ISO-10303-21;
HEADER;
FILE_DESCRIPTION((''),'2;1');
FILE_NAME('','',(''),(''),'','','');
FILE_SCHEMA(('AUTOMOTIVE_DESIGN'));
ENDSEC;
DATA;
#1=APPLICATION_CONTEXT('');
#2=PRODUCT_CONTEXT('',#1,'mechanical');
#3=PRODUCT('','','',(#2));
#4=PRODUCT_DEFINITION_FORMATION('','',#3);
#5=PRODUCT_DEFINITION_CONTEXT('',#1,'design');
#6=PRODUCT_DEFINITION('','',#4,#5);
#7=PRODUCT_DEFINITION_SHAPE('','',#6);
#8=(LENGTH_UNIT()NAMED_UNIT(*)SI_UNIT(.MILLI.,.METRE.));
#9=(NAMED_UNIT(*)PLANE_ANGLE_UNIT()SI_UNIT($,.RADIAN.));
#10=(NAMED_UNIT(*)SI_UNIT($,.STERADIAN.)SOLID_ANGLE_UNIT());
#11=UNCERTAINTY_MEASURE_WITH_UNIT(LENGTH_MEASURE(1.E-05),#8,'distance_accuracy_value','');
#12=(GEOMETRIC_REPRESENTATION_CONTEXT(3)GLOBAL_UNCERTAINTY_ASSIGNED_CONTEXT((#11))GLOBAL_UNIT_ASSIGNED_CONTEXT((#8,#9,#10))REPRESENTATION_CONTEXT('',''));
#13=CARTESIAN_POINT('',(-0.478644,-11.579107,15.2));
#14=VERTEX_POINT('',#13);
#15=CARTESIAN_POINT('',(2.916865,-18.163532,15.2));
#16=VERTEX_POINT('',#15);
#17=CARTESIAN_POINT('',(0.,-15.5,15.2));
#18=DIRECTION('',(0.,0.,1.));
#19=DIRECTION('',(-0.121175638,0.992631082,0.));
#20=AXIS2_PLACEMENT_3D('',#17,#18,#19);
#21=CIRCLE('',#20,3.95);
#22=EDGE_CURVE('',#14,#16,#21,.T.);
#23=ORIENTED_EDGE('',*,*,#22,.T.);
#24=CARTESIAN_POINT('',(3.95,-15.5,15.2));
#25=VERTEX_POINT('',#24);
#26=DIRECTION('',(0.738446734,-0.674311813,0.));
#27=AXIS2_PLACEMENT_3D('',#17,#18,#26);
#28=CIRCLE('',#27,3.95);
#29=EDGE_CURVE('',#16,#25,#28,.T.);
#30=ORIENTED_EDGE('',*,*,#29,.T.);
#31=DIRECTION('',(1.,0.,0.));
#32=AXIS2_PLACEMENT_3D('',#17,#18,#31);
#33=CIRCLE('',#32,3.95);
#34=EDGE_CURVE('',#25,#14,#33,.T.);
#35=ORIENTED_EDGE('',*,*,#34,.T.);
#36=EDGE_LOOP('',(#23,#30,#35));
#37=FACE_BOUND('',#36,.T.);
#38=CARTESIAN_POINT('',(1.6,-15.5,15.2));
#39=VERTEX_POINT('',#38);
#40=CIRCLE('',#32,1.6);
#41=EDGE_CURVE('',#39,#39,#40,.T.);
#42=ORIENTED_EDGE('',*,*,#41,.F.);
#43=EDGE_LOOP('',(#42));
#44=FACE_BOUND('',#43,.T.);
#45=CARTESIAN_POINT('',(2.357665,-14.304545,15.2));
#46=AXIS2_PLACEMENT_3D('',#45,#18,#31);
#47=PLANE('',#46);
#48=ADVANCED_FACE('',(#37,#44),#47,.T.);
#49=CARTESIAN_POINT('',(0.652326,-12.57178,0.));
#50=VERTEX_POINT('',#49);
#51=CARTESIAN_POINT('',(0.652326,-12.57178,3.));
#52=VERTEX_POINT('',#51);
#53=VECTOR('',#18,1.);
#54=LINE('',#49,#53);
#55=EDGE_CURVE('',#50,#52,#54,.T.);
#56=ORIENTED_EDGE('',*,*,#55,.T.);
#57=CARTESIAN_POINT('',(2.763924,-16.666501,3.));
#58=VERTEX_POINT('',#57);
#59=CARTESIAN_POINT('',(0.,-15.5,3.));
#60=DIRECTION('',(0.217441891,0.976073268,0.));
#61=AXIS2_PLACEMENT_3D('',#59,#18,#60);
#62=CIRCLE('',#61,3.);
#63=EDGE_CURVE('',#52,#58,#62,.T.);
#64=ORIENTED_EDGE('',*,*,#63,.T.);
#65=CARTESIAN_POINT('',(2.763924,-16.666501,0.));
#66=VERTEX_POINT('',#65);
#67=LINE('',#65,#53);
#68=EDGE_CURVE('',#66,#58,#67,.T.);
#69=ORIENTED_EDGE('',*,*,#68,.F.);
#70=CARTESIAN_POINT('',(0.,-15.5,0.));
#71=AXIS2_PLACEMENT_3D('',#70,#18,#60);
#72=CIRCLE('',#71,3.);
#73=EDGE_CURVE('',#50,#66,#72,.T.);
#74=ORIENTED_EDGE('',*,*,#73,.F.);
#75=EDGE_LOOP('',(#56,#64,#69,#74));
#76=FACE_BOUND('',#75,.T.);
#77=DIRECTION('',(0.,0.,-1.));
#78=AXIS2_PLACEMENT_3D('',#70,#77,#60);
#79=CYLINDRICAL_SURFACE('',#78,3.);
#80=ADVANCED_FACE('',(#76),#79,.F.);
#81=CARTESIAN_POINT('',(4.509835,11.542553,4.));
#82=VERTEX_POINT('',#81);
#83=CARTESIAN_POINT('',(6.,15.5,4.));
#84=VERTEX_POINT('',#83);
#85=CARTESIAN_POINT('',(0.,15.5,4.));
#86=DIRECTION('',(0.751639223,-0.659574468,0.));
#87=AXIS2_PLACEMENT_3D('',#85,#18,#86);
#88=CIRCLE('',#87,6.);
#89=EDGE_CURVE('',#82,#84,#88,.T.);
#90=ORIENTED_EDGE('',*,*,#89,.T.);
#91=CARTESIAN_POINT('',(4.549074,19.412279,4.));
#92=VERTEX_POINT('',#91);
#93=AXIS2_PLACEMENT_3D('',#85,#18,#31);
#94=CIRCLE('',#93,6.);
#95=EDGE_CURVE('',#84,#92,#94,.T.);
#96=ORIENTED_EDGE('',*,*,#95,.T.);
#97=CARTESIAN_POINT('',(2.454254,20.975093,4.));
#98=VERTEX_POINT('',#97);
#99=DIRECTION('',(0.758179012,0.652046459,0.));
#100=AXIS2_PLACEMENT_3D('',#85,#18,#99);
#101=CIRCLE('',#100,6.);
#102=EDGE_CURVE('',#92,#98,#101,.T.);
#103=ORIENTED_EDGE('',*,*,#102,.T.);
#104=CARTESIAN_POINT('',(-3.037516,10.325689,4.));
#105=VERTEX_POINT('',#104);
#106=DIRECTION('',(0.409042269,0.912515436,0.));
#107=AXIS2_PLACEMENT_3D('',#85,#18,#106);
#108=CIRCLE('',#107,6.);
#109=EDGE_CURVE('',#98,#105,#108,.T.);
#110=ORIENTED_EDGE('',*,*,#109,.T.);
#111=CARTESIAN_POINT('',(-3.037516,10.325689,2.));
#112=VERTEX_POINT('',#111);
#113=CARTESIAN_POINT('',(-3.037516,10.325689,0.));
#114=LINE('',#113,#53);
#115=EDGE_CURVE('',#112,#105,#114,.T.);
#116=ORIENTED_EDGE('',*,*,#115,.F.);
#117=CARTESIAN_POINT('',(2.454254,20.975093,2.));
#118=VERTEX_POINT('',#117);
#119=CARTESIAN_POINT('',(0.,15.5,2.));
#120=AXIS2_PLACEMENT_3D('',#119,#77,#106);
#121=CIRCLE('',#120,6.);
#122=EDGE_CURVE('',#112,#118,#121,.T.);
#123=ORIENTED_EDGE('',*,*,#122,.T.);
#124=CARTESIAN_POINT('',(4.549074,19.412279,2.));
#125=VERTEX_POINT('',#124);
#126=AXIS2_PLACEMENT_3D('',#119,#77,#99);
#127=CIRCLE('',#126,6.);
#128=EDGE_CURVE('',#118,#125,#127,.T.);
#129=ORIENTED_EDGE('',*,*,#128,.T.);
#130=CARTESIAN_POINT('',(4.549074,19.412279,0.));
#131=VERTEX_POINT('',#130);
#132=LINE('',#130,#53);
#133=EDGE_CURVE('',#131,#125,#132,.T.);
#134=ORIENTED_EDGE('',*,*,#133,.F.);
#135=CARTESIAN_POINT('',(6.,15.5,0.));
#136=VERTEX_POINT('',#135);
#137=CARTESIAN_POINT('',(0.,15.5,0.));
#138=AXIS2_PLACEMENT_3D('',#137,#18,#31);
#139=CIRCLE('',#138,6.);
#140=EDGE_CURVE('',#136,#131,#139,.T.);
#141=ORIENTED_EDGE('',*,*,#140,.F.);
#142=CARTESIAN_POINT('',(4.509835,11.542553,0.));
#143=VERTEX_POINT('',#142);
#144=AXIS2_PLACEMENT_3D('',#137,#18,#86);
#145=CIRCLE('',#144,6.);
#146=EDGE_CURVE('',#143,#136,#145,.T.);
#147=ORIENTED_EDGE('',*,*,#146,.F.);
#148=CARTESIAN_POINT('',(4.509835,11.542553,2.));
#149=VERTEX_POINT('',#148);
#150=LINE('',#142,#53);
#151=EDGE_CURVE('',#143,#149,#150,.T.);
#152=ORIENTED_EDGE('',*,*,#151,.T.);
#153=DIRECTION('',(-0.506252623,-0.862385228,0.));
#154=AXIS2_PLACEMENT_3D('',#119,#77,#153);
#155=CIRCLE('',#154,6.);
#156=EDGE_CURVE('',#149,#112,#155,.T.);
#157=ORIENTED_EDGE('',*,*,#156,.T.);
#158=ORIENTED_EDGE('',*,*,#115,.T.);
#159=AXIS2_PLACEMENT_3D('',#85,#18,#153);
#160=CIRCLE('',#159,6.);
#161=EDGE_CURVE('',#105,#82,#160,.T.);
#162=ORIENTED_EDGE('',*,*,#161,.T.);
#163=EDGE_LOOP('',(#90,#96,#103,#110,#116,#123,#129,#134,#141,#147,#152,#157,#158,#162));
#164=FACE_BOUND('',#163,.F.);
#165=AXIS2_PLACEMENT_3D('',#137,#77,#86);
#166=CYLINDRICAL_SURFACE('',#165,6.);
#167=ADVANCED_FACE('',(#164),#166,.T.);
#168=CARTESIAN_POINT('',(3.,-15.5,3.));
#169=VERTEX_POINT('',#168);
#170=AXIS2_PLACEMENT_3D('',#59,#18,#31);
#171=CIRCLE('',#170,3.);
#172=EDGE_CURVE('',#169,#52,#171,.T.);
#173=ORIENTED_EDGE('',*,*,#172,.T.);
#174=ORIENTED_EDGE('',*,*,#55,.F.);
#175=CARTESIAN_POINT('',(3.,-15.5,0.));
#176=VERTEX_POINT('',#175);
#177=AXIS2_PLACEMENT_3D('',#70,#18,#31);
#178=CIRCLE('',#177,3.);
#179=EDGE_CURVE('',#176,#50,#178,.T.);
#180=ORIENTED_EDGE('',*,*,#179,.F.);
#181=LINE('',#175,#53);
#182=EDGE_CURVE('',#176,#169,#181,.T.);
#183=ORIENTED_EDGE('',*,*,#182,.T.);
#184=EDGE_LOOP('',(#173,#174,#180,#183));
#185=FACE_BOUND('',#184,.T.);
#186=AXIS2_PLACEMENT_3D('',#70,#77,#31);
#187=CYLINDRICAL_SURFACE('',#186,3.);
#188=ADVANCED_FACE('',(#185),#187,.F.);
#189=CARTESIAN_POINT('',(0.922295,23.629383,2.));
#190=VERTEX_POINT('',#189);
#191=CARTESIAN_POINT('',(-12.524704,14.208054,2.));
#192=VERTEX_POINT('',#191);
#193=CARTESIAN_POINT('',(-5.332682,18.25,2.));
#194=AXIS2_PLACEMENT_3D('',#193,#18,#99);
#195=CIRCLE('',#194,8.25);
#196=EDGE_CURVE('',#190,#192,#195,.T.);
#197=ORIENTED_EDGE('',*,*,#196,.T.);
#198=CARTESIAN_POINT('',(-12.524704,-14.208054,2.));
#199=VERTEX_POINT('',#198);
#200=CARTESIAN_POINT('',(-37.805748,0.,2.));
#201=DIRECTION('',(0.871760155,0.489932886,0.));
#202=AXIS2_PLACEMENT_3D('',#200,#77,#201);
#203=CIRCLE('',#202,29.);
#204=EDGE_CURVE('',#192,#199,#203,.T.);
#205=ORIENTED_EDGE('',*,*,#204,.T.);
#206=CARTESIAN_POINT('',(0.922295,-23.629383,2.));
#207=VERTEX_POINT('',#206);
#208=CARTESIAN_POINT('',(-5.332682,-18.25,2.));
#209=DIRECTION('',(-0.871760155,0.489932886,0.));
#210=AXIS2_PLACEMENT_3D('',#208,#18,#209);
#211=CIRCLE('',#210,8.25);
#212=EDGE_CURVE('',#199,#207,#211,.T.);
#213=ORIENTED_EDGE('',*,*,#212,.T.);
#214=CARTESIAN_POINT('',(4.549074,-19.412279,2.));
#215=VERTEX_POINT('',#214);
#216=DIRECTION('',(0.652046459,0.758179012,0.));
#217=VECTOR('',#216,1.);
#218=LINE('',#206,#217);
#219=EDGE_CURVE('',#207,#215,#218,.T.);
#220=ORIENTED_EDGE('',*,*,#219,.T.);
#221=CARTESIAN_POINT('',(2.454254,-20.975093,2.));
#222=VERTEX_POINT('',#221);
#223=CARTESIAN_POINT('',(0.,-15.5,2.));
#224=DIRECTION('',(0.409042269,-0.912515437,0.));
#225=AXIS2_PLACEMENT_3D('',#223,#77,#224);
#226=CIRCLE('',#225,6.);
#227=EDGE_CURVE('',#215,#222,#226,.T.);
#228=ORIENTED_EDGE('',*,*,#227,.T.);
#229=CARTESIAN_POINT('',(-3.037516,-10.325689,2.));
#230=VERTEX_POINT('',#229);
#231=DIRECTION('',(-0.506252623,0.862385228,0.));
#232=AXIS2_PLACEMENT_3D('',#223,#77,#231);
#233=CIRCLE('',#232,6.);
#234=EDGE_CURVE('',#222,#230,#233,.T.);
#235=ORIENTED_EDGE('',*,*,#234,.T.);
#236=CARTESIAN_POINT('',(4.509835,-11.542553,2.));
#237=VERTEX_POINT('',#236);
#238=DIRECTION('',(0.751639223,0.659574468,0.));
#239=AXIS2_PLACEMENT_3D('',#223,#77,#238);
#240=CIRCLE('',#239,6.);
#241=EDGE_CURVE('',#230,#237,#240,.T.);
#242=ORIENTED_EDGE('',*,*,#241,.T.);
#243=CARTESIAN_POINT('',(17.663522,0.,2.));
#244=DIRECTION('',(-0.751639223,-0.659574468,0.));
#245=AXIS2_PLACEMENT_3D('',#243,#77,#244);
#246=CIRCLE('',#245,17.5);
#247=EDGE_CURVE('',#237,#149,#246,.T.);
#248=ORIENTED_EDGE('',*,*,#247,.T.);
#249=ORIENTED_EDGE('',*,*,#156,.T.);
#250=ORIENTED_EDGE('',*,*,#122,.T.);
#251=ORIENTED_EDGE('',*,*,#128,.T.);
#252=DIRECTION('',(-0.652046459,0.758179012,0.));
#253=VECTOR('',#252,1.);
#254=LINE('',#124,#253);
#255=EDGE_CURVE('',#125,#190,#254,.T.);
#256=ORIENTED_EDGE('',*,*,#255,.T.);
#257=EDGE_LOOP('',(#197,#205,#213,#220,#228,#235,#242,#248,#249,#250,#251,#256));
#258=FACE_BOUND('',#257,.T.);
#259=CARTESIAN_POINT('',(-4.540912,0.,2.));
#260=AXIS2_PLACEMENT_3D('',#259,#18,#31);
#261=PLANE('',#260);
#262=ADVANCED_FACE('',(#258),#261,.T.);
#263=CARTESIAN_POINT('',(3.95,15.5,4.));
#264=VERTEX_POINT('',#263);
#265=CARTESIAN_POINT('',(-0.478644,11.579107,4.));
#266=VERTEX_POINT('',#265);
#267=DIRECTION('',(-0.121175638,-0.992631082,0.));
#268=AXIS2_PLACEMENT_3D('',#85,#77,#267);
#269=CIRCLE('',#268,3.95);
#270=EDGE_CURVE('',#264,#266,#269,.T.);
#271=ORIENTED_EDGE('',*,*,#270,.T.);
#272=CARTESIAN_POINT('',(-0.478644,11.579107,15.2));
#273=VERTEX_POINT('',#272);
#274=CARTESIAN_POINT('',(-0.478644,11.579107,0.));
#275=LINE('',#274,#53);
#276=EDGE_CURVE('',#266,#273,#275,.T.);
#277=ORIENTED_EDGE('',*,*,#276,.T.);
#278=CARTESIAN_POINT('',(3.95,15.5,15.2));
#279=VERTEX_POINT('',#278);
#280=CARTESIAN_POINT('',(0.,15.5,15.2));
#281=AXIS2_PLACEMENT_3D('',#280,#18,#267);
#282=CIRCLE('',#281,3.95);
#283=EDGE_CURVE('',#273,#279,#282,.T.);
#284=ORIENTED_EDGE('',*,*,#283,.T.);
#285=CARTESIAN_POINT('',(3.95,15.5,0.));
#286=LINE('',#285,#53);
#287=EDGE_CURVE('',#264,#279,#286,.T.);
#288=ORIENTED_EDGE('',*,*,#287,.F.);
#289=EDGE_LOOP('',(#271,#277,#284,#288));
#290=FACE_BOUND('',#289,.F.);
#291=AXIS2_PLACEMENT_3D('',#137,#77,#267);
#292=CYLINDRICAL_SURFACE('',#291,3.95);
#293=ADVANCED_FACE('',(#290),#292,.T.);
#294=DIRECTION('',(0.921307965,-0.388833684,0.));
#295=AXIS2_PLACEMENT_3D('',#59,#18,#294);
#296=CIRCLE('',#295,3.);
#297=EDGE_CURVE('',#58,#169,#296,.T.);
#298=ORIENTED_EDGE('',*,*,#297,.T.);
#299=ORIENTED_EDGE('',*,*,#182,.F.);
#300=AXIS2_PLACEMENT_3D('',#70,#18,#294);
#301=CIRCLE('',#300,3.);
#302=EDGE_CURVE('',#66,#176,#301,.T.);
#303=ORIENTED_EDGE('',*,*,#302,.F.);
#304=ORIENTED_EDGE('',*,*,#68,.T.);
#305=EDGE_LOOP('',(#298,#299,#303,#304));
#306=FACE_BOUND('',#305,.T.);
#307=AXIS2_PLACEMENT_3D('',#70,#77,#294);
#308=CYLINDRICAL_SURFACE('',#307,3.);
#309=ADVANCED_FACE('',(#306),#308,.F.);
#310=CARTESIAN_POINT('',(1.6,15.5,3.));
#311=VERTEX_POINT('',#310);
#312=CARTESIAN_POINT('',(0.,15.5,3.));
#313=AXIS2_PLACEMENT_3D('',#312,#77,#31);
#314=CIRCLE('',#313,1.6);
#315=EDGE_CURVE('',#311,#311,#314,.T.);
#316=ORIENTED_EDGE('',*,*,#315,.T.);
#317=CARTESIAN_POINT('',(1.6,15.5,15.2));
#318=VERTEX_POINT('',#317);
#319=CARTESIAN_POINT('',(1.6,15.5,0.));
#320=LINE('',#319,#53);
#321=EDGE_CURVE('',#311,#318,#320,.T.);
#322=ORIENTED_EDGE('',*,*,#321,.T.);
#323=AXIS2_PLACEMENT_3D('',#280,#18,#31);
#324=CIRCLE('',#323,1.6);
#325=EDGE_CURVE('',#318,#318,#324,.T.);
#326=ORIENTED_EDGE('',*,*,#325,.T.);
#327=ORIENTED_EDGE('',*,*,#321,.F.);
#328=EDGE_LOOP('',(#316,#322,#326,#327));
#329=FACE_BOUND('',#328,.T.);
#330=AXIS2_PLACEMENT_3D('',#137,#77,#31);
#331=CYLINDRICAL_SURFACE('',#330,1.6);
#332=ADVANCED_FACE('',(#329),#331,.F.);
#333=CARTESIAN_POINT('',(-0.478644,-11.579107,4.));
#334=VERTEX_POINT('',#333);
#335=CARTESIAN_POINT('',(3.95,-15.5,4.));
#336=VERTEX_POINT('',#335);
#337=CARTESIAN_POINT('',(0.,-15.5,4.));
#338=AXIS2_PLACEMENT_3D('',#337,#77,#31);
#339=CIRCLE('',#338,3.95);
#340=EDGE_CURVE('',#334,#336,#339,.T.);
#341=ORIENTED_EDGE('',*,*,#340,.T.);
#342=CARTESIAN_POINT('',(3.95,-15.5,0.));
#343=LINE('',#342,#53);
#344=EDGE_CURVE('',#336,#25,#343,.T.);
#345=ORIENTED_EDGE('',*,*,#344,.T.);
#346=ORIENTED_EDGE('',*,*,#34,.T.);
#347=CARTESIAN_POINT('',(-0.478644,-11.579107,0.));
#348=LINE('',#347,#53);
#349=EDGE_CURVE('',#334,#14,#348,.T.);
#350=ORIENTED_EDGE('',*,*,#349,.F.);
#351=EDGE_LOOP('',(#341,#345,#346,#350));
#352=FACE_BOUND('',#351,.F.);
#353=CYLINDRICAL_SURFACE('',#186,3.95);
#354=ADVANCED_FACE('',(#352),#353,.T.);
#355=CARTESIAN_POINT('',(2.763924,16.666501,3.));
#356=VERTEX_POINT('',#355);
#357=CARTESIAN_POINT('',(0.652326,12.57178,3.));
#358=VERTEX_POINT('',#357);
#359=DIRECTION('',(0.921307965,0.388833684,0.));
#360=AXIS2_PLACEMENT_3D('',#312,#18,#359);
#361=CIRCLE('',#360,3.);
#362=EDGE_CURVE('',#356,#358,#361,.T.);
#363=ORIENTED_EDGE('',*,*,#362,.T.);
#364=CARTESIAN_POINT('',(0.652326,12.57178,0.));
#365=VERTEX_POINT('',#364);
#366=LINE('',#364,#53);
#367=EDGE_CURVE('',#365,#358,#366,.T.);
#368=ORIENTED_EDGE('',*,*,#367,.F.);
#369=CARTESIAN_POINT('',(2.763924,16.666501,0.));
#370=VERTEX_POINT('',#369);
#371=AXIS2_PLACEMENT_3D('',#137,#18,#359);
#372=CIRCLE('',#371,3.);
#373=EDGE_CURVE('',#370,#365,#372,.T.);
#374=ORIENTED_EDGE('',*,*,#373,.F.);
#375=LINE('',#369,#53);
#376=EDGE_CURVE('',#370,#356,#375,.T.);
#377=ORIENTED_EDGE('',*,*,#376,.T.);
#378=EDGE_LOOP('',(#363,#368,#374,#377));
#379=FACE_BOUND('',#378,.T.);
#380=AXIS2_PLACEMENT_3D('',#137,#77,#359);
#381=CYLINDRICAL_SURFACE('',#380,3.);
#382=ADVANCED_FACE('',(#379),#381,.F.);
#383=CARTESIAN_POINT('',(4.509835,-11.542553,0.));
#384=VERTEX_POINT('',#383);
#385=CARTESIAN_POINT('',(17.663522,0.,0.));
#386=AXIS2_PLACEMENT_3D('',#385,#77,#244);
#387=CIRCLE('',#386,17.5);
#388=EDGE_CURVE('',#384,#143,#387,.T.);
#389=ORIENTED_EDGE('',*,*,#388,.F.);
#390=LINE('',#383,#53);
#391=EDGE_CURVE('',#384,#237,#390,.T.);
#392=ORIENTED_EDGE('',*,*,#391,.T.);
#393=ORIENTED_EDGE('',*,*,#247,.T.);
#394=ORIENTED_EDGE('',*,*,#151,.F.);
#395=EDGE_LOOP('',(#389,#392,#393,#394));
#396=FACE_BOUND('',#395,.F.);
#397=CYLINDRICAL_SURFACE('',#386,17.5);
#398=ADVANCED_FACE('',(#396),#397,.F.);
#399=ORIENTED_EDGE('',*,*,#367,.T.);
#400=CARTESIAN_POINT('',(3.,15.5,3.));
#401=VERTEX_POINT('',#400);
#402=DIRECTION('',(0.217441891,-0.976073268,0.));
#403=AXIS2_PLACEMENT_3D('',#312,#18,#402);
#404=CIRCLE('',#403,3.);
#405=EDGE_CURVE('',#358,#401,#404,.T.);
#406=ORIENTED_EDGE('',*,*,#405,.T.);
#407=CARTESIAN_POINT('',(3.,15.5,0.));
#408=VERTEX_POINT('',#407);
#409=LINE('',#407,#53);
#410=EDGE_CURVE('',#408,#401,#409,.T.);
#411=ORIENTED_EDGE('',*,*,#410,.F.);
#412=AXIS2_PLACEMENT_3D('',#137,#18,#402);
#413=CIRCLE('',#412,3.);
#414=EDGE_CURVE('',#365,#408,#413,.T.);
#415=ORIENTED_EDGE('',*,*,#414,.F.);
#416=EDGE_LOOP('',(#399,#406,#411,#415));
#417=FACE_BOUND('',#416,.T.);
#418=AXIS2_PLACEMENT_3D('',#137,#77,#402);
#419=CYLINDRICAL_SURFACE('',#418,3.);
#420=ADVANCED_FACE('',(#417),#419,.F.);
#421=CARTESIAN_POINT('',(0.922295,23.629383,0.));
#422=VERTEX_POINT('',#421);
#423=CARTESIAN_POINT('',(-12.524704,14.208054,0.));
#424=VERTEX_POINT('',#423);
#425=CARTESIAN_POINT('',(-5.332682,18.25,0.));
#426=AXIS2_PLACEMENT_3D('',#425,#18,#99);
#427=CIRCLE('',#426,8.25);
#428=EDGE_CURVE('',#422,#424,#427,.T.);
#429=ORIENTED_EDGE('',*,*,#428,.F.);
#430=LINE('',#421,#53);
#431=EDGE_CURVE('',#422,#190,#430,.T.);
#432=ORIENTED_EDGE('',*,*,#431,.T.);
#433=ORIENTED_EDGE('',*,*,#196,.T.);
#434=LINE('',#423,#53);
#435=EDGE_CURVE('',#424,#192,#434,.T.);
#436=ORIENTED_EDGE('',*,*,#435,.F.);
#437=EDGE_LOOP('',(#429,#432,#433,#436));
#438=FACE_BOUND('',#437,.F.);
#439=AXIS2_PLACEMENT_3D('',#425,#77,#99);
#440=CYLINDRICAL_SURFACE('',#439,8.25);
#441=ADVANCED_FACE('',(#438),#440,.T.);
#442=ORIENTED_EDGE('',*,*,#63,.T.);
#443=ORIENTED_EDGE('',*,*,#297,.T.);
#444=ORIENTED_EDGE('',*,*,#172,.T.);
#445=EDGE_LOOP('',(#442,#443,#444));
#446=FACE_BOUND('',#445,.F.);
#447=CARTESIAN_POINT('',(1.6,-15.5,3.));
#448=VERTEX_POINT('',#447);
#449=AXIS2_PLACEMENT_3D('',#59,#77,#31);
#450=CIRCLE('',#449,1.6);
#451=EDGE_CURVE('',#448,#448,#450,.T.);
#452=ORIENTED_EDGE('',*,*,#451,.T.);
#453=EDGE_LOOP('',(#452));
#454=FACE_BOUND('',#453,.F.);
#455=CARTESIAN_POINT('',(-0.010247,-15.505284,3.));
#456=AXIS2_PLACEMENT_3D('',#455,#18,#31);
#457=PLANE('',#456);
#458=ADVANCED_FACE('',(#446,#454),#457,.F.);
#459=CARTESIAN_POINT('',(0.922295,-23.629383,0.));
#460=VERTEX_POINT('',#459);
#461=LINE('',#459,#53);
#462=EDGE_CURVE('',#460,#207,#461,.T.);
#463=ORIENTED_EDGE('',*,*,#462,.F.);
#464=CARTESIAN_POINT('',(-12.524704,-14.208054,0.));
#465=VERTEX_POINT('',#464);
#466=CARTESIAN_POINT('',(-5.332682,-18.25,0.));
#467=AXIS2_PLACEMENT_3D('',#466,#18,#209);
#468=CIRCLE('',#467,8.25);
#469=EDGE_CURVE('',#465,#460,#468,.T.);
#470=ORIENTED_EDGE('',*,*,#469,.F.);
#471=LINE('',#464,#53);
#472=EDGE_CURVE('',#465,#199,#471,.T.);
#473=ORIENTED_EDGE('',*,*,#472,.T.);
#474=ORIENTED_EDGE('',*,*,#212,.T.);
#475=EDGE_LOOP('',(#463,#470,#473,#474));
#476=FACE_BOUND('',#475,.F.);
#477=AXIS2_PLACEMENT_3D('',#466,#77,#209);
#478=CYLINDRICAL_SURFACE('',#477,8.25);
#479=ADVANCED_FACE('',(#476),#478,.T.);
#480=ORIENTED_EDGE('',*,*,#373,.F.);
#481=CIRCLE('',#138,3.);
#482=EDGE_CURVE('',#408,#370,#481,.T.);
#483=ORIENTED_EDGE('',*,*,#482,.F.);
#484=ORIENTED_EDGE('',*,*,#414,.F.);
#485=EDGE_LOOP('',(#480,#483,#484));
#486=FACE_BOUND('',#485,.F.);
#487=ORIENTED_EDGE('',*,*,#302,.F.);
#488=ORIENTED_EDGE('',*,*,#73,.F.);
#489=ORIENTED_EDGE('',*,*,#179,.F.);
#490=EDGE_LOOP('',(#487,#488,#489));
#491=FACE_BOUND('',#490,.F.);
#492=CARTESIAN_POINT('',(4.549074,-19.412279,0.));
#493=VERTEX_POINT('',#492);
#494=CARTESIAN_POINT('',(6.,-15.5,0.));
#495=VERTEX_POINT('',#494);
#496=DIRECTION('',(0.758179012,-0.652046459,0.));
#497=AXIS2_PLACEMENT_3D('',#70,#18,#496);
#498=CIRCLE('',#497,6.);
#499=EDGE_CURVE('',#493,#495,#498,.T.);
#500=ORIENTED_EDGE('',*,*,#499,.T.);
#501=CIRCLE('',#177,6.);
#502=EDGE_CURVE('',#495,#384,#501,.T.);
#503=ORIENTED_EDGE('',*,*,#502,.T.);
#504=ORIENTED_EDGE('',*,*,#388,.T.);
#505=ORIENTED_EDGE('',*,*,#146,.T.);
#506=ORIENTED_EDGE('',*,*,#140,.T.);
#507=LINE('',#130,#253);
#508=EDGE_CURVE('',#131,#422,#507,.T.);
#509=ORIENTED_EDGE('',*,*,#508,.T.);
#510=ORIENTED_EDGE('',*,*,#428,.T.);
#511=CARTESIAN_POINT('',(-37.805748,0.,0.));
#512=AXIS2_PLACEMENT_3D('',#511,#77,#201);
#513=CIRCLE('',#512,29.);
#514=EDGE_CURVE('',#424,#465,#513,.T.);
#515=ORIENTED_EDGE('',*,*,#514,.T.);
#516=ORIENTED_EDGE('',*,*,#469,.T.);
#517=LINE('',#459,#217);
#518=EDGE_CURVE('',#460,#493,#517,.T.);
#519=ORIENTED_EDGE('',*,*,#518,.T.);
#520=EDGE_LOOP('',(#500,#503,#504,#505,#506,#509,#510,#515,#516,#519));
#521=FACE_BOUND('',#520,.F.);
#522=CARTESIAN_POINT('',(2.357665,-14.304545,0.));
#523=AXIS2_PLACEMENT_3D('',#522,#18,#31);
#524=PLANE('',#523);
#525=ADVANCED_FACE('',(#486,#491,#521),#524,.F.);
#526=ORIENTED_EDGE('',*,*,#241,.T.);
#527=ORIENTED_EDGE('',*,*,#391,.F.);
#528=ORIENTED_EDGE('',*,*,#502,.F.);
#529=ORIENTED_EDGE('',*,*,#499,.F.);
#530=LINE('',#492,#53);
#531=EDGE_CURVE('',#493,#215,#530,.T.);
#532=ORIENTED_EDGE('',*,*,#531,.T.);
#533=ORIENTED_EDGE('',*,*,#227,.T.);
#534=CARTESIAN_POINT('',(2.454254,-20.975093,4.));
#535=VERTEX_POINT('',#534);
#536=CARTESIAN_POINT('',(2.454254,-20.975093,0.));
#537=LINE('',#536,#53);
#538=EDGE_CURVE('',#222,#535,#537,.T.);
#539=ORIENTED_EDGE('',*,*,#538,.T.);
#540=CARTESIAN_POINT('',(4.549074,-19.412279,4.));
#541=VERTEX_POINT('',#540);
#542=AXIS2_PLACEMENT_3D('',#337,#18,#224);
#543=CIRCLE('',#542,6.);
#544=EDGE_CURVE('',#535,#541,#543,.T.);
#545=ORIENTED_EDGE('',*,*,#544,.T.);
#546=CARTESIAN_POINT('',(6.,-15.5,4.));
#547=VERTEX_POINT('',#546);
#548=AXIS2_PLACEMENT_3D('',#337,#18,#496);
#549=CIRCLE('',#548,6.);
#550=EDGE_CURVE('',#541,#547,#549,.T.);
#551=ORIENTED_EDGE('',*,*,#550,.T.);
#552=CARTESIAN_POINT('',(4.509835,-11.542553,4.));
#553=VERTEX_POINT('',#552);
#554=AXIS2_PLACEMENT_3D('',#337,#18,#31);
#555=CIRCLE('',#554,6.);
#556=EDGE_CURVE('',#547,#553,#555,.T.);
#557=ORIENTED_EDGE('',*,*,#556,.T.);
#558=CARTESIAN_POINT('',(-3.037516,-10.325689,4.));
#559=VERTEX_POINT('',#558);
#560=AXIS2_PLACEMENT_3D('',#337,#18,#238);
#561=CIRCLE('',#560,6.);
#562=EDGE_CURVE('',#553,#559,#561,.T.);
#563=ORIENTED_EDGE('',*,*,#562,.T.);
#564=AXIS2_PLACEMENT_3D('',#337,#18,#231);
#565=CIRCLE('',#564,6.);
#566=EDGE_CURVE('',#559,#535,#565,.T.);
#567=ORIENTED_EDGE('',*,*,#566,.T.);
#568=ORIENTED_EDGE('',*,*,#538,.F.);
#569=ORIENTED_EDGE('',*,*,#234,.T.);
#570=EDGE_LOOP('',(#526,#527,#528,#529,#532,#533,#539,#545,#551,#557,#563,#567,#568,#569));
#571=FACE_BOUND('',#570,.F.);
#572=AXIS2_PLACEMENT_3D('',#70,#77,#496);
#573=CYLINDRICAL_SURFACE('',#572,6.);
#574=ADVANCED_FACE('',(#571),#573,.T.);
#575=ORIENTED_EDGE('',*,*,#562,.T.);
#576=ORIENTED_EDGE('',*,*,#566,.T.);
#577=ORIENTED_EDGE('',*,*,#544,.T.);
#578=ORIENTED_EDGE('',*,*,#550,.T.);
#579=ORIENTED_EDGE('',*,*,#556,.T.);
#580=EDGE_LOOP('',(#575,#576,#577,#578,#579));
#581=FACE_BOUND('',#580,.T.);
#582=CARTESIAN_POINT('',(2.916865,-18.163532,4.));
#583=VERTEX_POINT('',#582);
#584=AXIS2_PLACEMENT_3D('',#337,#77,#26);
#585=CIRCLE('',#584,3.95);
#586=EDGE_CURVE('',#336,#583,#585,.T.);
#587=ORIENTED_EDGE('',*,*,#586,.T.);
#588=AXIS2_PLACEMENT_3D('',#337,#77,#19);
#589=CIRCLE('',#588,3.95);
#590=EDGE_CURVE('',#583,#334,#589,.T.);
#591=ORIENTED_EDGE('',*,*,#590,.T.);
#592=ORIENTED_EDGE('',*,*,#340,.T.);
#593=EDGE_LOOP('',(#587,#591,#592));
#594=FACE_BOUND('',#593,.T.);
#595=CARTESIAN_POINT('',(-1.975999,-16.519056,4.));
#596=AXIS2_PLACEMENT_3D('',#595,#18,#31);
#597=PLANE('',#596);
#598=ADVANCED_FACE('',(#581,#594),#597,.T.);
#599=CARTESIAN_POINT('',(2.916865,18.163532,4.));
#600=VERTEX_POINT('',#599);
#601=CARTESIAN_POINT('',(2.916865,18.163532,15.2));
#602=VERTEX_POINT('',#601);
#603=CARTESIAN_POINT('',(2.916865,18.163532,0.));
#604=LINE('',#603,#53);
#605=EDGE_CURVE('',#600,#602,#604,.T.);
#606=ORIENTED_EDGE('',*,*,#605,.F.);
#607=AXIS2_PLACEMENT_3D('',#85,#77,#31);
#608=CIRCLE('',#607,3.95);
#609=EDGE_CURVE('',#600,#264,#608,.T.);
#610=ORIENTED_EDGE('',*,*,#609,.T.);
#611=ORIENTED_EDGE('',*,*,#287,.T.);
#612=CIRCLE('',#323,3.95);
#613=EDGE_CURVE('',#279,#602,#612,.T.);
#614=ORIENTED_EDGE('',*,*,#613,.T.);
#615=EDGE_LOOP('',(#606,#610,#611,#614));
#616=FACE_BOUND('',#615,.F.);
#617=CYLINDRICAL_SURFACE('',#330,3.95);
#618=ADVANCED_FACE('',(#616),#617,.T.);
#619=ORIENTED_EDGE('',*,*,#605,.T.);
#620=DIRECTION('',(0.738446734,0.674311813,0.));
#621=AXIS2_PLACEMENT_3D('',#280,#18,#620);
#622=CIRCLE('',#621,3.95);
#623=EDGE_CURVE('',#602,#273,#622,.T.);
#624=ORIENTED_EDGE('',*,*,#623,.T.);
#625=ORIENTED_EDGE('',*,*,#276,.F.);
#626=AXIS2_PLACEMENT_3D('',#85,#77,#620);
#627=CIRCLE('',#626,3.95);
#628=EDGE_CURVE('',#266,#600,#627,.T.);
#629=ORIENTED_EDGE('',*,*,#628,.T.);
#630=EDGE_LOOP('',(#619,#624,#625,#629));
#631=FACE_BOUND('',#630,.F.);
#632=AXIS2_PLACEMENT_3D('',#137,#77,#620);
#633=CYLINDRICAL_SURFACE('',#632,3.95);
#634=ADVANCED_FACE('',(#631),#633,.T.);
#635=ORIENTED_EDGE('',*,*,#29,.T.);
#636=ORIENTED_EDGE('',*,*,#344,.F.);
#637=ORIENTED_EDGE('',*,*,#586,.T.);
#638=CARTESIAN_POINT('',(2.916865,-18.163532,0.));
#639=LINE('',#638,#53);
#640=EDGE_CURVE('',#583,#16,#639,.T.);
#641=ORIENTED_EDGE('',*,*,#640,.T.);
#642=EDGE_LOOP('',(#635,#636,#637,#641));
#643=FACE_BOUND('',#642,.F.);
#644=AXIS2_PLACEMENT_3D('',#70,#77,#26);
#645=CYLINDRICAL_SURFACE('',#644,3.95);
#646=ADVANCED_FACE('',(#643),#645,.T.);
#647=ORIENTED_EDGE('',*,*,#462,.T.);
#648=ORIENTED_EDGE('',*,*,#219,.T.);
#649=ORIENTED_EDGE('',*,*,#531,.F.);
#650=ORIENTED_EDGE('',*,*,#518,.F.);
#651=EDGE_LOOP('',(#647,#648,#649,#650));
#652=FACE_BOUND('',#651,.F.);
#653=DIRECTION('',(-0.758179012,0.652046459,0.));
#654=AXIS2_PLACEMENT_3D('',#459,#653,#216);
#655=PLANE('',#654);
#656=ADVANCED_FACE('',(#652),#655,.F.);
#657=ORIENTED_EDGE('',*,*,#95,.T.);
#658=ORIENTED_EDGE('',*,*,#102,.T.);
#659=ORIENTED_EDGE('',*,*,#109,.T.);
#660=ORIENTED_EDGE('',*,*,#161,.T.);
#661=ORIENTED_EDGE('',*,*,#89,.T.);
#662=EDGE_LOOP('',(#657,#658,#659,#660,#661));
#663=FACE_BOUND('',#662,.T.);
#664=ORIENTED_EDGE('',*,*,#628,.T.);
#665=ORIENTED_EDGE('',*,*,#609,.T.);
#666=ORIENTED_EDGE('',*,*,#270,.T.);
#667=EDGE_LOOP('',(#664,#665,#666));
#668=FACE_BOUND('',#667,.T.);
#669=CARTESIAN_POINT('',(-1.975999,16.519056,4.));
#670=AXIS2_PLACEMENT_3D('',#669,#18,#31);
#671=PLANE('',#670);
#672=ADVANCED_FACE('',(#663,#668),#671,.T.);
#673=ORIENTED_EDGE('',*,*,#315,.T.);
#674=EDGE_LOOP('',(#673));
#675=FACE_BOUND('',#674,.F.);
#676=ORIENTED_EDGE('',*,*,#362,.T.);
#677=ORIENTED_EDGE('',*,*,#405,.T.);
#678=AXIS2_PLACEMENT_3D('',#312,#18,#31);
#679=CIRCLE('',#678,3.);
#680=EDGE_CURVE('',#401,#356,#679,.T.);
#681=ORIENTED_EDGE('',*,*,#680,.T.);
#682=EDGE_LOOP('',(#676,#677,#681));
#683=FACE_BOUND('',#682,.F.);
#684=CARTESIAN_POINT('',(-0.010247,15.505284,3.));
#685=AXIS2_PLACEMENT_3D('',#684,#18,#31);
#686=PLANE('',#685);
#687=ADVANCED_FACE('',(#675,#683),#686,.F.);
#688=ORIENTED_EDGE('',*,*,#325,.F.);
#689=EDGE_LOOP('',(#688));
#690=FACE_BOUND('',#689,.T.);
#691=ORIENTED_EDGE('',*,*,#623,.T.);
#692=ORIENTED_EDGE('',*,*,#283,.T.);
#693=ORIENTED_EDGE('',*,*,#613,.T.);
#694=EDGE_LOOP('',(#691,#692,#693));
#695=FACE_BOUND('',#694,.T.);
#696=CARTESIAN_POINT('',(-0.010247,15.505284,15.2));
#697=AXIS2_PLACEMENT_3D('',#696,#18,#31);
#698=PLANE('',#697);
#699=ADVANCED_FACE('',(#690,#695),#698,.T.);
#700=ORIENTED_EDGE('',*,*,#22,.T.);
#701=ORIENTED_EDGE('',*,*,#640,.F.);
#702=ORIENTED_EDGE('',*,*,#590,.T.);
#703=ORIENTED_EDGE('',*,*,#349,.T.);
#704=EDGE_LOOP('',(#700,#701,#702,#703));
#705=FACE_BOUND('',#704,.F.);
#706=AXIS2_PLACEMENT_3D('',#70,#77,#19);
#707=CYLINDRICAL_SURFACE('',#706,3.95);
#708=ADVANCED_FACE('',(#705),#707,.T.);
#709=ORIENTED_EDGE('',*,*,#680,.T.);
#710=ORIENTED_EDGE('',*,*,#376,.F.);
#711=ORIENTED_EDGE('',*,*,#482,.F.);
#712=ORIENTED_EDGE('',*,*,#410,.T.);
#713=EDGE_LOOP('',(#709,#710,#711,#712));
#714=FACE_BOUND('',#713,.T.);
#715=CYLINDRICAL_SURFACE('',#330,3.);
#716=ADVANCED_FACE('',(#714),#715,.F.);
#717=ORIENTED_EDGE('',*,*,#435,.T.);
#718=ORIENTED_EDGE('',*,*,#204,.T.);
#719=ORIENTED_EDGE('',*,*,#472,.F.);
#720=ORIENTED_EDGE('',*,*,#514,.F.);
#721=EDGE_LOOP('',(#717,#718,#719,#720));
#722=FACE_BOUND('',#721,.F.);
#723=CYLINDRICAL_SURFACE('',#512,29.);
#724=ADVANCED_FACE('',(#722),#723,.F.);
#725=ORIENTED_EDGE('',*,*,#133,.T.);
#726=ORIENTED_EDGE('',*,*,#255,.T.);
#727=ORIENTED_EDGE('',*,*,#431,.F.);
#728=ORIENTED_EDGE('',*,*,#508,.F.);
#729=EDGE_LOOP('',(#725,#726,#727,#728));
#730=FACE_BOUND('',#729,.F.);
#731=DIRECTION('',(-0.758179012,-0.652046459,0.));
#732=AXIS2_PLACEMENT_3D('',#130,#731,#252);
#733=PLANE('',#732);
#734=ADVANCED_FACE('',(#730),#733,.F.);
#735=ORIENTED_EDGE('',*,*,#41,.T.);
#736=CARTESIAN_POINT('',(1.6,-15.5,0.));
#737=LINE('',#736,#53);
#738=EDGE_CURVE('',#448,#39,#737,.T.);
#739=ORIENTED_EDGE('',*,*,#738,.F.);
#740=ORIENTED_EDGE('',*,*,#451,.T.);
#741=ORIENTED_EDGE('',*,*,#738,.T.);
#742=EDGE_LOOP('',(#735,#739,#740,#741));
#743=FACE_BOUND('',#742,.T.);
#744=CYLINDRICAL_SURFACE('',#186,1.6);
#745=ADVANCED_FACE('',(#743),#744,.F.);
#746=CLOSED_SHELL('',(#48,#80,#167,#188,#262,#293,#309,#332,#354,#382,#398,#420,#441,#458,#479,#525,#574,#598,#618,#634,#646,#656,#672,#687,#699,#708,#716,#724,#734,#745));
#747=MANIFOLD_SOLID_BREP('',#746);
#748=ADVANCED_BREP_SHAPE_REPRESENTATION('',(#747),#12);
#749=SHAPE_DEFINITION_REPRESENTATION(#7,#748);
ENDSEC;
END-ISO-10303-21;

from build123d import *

# Parameters (mm, degrees)
F0_R     = 1.6
F1_DEPTH = 2
F2_DEPTH = 4
F3_DEPTH = 15.2
F4_DEPTH = 15.2
F5_DEPTH = 3


with BuildPart() as f1:
    # F0 (on Top) → F1 (new body)
    with BuildSketch(Plane.XY):
        with BuildLine():
            ThreePointArc((4.509835336, 11.5425531915), (0.9550503073, 9.5764977496), (-3.0375157377, 10.325688631))
            ThreePointArc((-3.0375157377, 10.325688631), (-8.4572600243, 10.6145881745), (-12.5247035281, 14.2080536913))
            ThreePointArc((-12.5247035281, 14.2080536913), (-8.8057480142, 0), (-12.5247035281, -14.2080536913))
            ThreePointArc((-12.5247035281, -14.2080536913), (-8.4572600243, -10.6145881745), (-3.0375157377, -10.325688631))
            ThreePointArc((-3.0375157377, -10.325688631), (0.9550503073, -9.5764977496), (4.509835336, -11.5425531915))
            ThreePointArc((4.509835336, -11.5425531915), (0.1635217327, 0), (4.509835336, 11.5425531915))
        make_face()
        with BuildLine():
            ThreePointArc((-3.0375157377, -10.325688631), (-8.4572600243, -10.6145881745), (-12.5247035281, -14.2080536913))
            ThreePointArc((-12.5247035281, -14.2080536913), (-10.0665892972, -25.0066725603), (0.9222946004, -23.6293832897))
            ThreePointArc((0.9222946004, -23.6293832897), (1.8126059127, -22.3739977019), (2.4542536164, -20.975092619))
            ThreePointArc((2.4542536164, -20.975092619), (-5.3326822519, -18.25), (-3.0375157377, -10.325688631))
        make_face()
        with BuildLine():
            ThreePointArc((6, -15.5), (5.615114069, -13.3856457269), (4.509835336, -11.5425531915))
            ThreePointArc((4.509835336, -11.5425531915), (0.9550503073, -9.5764977496), (-3.0375157377, -10.325688631))
            ThreePointArc((-3.0375157377, -10.325688631), (-1.7035573479, -10.8410896597), (-0.4786437682, -11.5791072263))
            ThreePointArc((-0.4786437682, -11.5791072263), (2.6183828134, -12.5425396973), (3.95, -15.5))
            ThreePointArc((3.95, -15.5), (3.6826698984, -16.928440555), (2.9168645978, -18.1635316626))
            ThreePointArc((2.9168645978, -18.1635316626), (2.9172044597, -18.2067652376), (2.9173177481, -18.25))
            ThreePointArc((2.9173177481, -18.25), (2.8007278851, -19.6320779801), (2.4542536164, -20.975092619))
            ThreePointArc((2.4542536164, -20.975092619), (3.5877913093, -20.3091323044), (4.5490740744, -19.4122787561))
            ThreePointArc((4.5490740744, -19.4122787561), (5.6255863893, -17.5863311762), (6, -15.5))
        make_face()
        with BuildLine():
            ThreePointArc((-0.4786437682, 11.5791072263), (-3.5106824825, 17.3104166667), (2.9168645978, 18.1635316626))
            ThreePointArc((2.9168645978, 18.1635316626), (2.9172044597, 18.2067652376), (2.9173177481, 18.25))
            ThreePointArc((2.9173177481, 18.25), (2.8007278851, 19.6320779801), (2.4542536164, 20.975092619))
            ThreePointArc((2.4542536164, 20.975092619), (-5.3326822519, 18.25), (-3.0375157377, 10.325688631))
            ThreePointArc((-3.0375157377, 10.325688631), (-1.7035573479, 10.8410896597), (-0.4786437682, 11.5791072263))
        make_face()
        with BuildLine():
            ThreePointArc((-0.4786437682, -11.5791072263), (-1.7035573479, -10.8410896597), (-3.0375157377, -10.325688631))
            ThreePointArc((-3.0375157377, -10.325688631), (-5.3326822519, -18.25), (2.4542536164, -20.975092619))
            ThreePointArc((2.4542536164, -20.975092619), (2.8007278851, -19.6320779801), (2.9173177481, -18.25))
            ThreePointArc((2.9173177481, -18.25), (2.9172044597, -18.2067652376), (2.9168645978, -18.1635316626))
            ThreePointArc((2.9168645978, -18.1635316626), (-3.5106824825, -17.3104166667), (-0.4786437682, -11.5791072263))
        make_face()
        with BuildLine():
            ThreePointArc((-12.5247035281, 14.2080536913), (-8.4572600243, 10.6145881745), (-3.0375157377, 10.325688631))
            ThreePointArc((-3.0375157377, 10.325688631), (-5.3326822519, 18.25), (2.4542536164, 20.975092619))
            ThreePointArc((2.4542536164, 20.975092619), (1.8126059127, 22.3739977019), (0.9222946004, 23.6293832897))
            ThreePointArc((0.9222946004, 23.6293832897), (-10.0665892972, 25.0066725603), (-12.5247035281, 14.2080536913))
        make_face()
        with BuildLine():
            ThreePointArc((2.9168645978, 18.1635316626), (3.6826698984, 16.928440555), (3.95, 15.5))
            ThreePointArc((3.95, 15.5), (2.6183828134, 12.5425396973), (-0.4786437682, 11.5791072263))
            ThreePointArc((-0.4786437682, 11.5791072263), (-1.7035573479, 10.8410896597), (-3.0375157377, 10.325688631))
            ThreePointArc((-3.0375157377, 10.325688631), (0.9550503073, 9.5764977496), (4.509835336, 11.5425531915))
            ThreePointArc((4.509835336, 11.5425531915), (5.615114069, 13.3856457269), (6, 15.5))
            ThreePointArc((6, 15.5), (5.6255863893, 17.5863311762), (4.5490740744, 19.4122787561))
            ThreePointArc((4.5490740744, 19.4122787561), (3.5877913093, 20.3091323044), (2.4542536164, 20.975092619))
            ThreePointArc((2.4542536164, 20.975092619), (2.8007278851, 19.6320779801), (2.9173177481, 18.25))
            ThreePointArc((2.9173177481, 18.25), (2.9172044597, 18.2067652376), (2.9168645978, 18.1635316626))
        make_face()
        with BuildLine():
            ThreePointArc((0.6523256734, 12.5717801968), (1.9997558445, 14.46875), (2.7639238942, 16.6665010532))
            ThreePointArc((2.7639238942, 16.6665010532), (-2.666341126, 16.875), (0.6523256734, 12.5717801968))
        make_face()
        with Locations((0, 15.5)):
            Circle(F0_R, mode=Mode.SUBTRACT)
        with BuildLine():
            ThreePointArc((2.7639238942, -16.6665010532), (1.9997558445, -14.46875), (0.6523256734, -12.5717801968))
            ThreePointArc((0.6523256734, -12.5717801968), (-2.666341126, -16.875), (2.7639238942, -16.6665010532))
        make_face()
        with Locations((0, -15.5)):
            Circle(F0_R, mode=Mode.SUBTRACT)
        with Locations((0, -15.5)):
            Circle(F0_R)
        with Locations((0, 15.5)):
            Circle(F0_R)
        with BuildLine():
            ThreePointArc((3.95, -15.5), (2.6183828134, -12.5425396973), (-0.4786437682, -11.5791072263))
            ThreePointArc((-0.4786437682, -11.5791072263), (0.1095214994, -12.0496033733), (0.6523256734, -12.5717801968))
            ThreePointArc((0.6523256734, -12.5717801968), (2.3406171217, -13.6234309259), (3, -15.5))
            ThreePointArc((3, -15.5), (2.9403887228, -16.0950749186), (2.7639238942, -16.6665010532))
            ThreePointArc((2.7639238942, -16.6665010532), (2.8745983332, -17.4115219757), (2.9168645978, -18.1635316626))
            ThreePointArc((2.9168645978, -18.1635316626), (3.6826698984, -16.928440555), (3.95, -15.5))
        make_face()
        with BuildLine():
            ThreePointArc((2.7639238942, 16.6665010532), (2.8745983332, 17.4115219757), (2.9168645978, 18.1635316626))
            ThreePointArc((2.9168645978, 18.1635316626), (-3.5106824825, 17.3104166667), (-0.4786437682, 11.5791072263))
            ThreePointArc((-0.4786437682, 11.5791072263), (0.1095214994, 12.0496033733), (0.6523256734, 12.5717801968))
            ThreePointArc((0.6523256734, 12.5717801968), (-2.666341126, 16.875), (2.7639238942, 16.6665010532))
        make_face()
        with BuildLine():
            ThreePointArc((0.9222946004, 23.6293832897), (1.8126059127, 22.3739977019), (2.4542536164, 20.975092619))
            ThreePointArc((2.4542536164, 20.975092619), (3.5877913093, 20.3091323044), (4.5490740744, 19.4122787561))
            Line((4.5490740744, 19.4122787561), (0.9222946004, 23.6293832897))
        make_face()
        with BuildLine():
            ThreePointArc((2.4542536164, -20.975092619), (1.8126059127, -22.3739977019), (0.9222946004, -23.6293832897))
            Line((0.9222946004, -23.6293832897), (4.5490740744, -19.4122787561))
            ThreePointArc((4.5490740744, -19.4122787561), (3.5877913093, -20.3091323044), (2.4542536164, -20.975092619))
        make_face()
        with BuildLine():
            ThreePointArc((-0.4786437682, 11.5791072263), (2.6183828134, 12.5425396973), (3.95, 15.5))
            ThreePointArc((3.95, 15.5), (3.6826698984, 16.928440555), (2.9168645978, 18.1635316626))
            ThreePointArc((2.9168645978, 18.1635316626), (2.8745983332, 17.4115219757), (2.7639238942, 16.6665010532))
            ThreePointArc((2.7639238942, 16.6665010532), (2.9403887228, 16.0950749186), (3, 15.5))
            ThreePointArc((3, 15.5), (2.3406171217, 13.6234309259), (0.6523256734, 12.5717801968))
            ThreePointArc((0.6523256734, 12.5717801968), (0.1095214994, 12.0496033733), (-0.4786437682, 11.5791072263))
        make_face()
        with BuildLine():
            ThreePointArc((3, 15.5), (2.9403887228, 16.0950749186), (2.7639238942, 16.6665010532))
            ThreePointArc((2.7639238942, 16.6665010532), (1.9997558445, 14.46875), (0.6523256734, 12.5717801968))
            ThreePointArc((0.6523256734, 12.5717801968), (2.3406171217, 13.6234309259), (3, 15.5))
        make_face()
        with BuildLine():
            ThreePointArc((0.6523256734, -12.5717801968), (0.1095214994, -12.0496033733), (-0.4786437682, -11.5791072263))
            ThreePointArc((-0.4786437682, -11.5791072263), (-3.5106824825, -17.3104166667), (2.9168645978, -18.1635316626))
            ThreePointArc((2.9168645978, -18.1635316626), (2.8745983332, -17.4115219757), (2.7639238942, -16.6665010532))
            ThreePointArc((2.7639238942, -16.6665010532), (-2.666341126, -16.875), (0.6523256734, -12.5717801968))
        make_face()
        with BuildLine():
            ThreePointArc((3, -15.5), (2.3406171217, -13.6234309259), (0.6523256734, -12.5717801968))
            ThreePointArc((0.6523256734, -12.5717801968), (1.9997558445, -14.46875), (2.7639238942, -16.6665010532))
            ThreePointArc((2.7639238942, -16.6665010532), (2.9403887228, -16.0950749186), (3, -15.5))
        make_face()
    extrude(amount=F1_DEPTH)

    # F0 (on Top) → F2 (join)
    with BuildSketch(Plane.XY):
        with BuildLine():
            ThreePointArc((-0.4786437682, -11.5791072263), (-1.7035573479, -10.8410896597), (-3.0375157377, -10.325688631))
            ThreePointArc((-3.0375157377, -10.325688631), (-5.3326822519, -18.25), (2.4542536164, -20.975092619))
            ThreePointArc((2.4542536164, -20.975092619), (2.8007278851, -19.6320779801), (2.9173177481, -18.25))
            ThreePointArc((2.9173177481, -18.25), (2.9172044597, -18.2067652376), (2.9168645978, -18.1635316626))
            ThreePointArc((2.9168645978, -18.1635316626), (-3.5106824825, -17.3104166667), (-0.4786437682, -11.5791072263))
        make_face()
        with BuildLine():
            ThreePointArc((6, -15.5), (5.615114069, -13.3856457269), (4.509835336, -11.5425531915))
            ThreePointArc((4.509835336, -11.5425531915), (0.9550503073, -9.5764977496), (-3.0375157377, -10.325688631))
            ThreePointArc((-3.0375157377, -10.325688631), (-1.7035573479, -10.8410896597), (-0.4786437682, -11.5791072263))
            ThreePointArc((-0.4786437682, -11.5791072263), (2.6183828134, -12.5425396973), (3.95, -15.5))
            ThreePointArc((3.95, -15.5), (3.6826698984, -16.928440555), (2.9168645978, -18.1635316626))
            ThreePointArc((2.9168645978, -18.1635316626), (2.9172044597, -18.2067652376), (2.9173177481, -18.25))
            ThreePointArc((2.9173177481, -18.25), (2.8007278851, -19.6320779801), (2.4542536164, -20.975092619))
            ThreePointArc((2.4542536164, -20.975092619), (3.5877913093, -20.3091323044), (4.5490740744, -19.4122787561))
            ThreePointArc((4.5490740744, -19.4122787561), (5.6255863893, -17.5863311762), (6, -15.5))
        make_face()
        with BuildLine():
            ThreePointArc((-0.4786437682, 11.5791072263), (-3.5106824825, 17.3104166667), (2.9168645978, 18.1635316626))
            ThreePointArc((2.9168645978, 18.1635316626), (2.9172044597, 18.2067652376), (2.9173177481, 18.25))
            ThreePointArc((2.9173177481, 18.25), (2.8007278851, 19.6320779801), (2.4542536164, 20.975092619))
            ThreePointArc((2.4542536164, 20.975092619), (-5.3326822519, 18.25), (-3.0375157377, 10.325688631))
            ThreePointArc((-3.0375157377, 10.325688631), (-1.7035573479, 10.8410896597), (-0.4786437682, 11.5791072263))
        make_face()
        with BuildLine():
            ThreePointArc((2.9168645978, 18.1635316626), (3.6826698984, 16.928440555), (3.95, 15.5))
            ThreePointArc((3.95, 15.5), (2.6183828134, 12.5425396973), (-0.4786437682, 11.5791072263))
            ThreePointArc((-0.4786437682, 11.5791072263), (-1.7035573479, 10.8410896597), (-3.0375157377, 10.325688631))
            ThreePointArc((-3.0375157377, 10.325688631), (0.9550503073, 9.5764977496), (4.509835336, 11.5425531915))
            ThreePointArc((4.509835336, 11.5425531915), (5.615114069, 13.3856457269), (6, 15.5))
            ThreePointArc((6, 15.5), (5.6255863893, 17.5863311762), (4.5490740744, 19.4122787561))
            ThreePointArc((4.5490740744, 19.4122787561), (3.5877913093, 20.3091323044), (2.4542536164, 20.975092619))
            ThreePointArc((2.4542536164, 20.975092619), (2.8007278851, 19.6320779801), (2.9173177481, 18.25))
            ThreePointArc((2.9173177481, 18.25), (2.9172044597, 18.2067652376), (2.9168645978, 18.1635316626))
        make_face()
        with BuildLine():
            ThreePointArc((0.6523256734, 12.5717801968), (1.9997558445, 14.46875), (2.7639238942, 16.6665010532))
            ThreePointArc((2.7639238942, 16.6665010532), (-2.666341126, 16.875), (0.6523256734, 12.5717801968))
        make_face()
        with Locations((0, 15.5)):
            Circle(F0_R, mode=Mode.SUBTRACT)
        with BuildLine():
            ThreePointArc((2.7639238942, -16.6665010532), (1.9997558445, -14.46875), (0.6523256734, -12.5717801968))
            ThreePointArc((0.6523256734, -12.5717801968), (-2.666341126, -16.875), (2.7639238942, -16.6665010532))
        make_face()
        with Locations((0, -15.5)):
            Circle(F0_R, mode=Mode.SUBTRACT)
        with Locations((0, -15.5)):
            Circle(F0_R)
        with Locations((0, 15.5)):
            Circle(F0_R)
        with BuildLine():
            ThreePointArc((2.7639238942, 16.6665010532), (2.8745983332, 17.4115219757), (2.9168645978, 18.1635316626))
            ThreePointArc((2.9168645978, 18.1635316626), (-3.5106824825, 17.3104166667), (-0.4786437682, 11.5791072263))
            ThreePointArc((-0.4786437682, 11.5791072263), (0.1095214994, 12.0496033733), (0.6523256734, 12.5717801968))
            ThreePointArc((0.6523256734, 12.5717801968), (-2.666341126, 16.875), (2.7639238942, 16.6665010532))
        make_face()
        with BuildLine():
            ThreePointArc((3.95, -15.5), (2.6183828134, -12.5425396973), (-0.4786437682, -11.5791072263))
            ThreePointArc((-0.4786437682, -11.5791072263), (0.1095214994, -12.0496033733), (0.6523256734, -12.5717801968))
            ThreePointArc((0.6523256734, -12.5717801968), (2.3406171217, -13.6234309259), (3, -15.5))
            ThreePointArc((3, -15.5), (2.9403887228, -16.0950749186), (2.7639238942, -16.6665010532))
            ThreePointArc((2.7639238942, -16.6665010532), (2.8745983332, -17.4115219757), (2.9168645978, -18.1635316626))
            ThreePointArc((2.9168645978, -18.1635316626), (3.6826698984, -16.928440555), (3.95, -15.5))
        make_face()
        with BuildLine():
            ThreePointArc((-0.4786437682, 11.5791072263), (2.6183828134, 12.5425396973), (3.95, 15.5))
            ThreePointArc((3.95, 15.5), (3.6826698984, 16.928440555), (2.9168645978, 18.1635316626))
            ThreePointArc((2.9168645978, 18.1635316626), (2.8745983332, 17.4115219757), (2.7639238942, 16.6665010532))
            ThreePointArc((2.7639238942, 16.6665010532), (2.9403887228, 16.0950749186), (3, 15.5))
            ThreePointArc((3, 15.5), (2.3406171217, 13.6234309259), (0.6523256734, 12.5717801968))
            ThreePointArc((0.6523256734, 12.5717801968), (0.1095214994, 12.0496033733), (-0.4786437682, 11.5791072263))
        make_face()
        with BuildLine():
            ThreePointArc((3, 15.5), (2.9403887228, 16.0950749186), (2.7639238942, 16.6665010532))
            ThreePointArc((2.7639238942, 16.6665010532), (1.9997558445, 14.46875), (0.6523256734, 12.5717801968))
            ThreePointArc((0.6523256734, 12.5717801968), (2.3406171217, 13.6234309259), (3, 15.5))
        make_face()
        with BuildLine():
            ThreePointArc((3, -15.5), (2.3406171217, -13.6234309259), (0.6523256734, -12.5717801968))
            ThreePointArc((0.6523256734, -12.5717801968), (1.9997558445, -14.46875), (2.7639238942, -16.6665010532))
            ThreePointArc((2.7639238942, -16.6665010532), (2.9403887228, -16.0950749186), (3, -15.5))
        make_face()
        with BuildLine():
            ThreePointArc((0.6523256734, -12.5717801968), (0.1095214994, -12.0496033733), (-0.4786437682, -11.5791072263))
            ThreePointArc((-0.4786437682, -11.5791072263), (-3.5106824825, -17.3104166667), (2.9168645978, -18.1635316626))
            ThreePointArc((2.9168645978, -18.1635316626), (2.8745983332, -17.4115219757), (2.7639238942, -16.6665010532))
            ThreePointArc((2.7639238942, -16.6665010532), (-2.666341126, -16.875), (0.6523256734, -12.5717801968))
        make_face()
    extrude(amount=F2_DEPTH)

    # F0 (on Top) → F3 (join)
    with BuildSketch(Plane.XY):
        with BuildLine():
            ThreePointArc((3.95, -15.5), (2.6183828134, -12.5425396973), (-0.4786437682, -11.5791072263))
            ThreePointArc((-0.4786437682, -11.5791072263), (0.1095214994, -12.0496033733), (0.6523256734, -12.5717801968))
            ThreePointArc((0.6523256734, -12.5717801968), (2.3406171217, -13.6234309259), (3, -15.5))
            ThreePointArc((3, -15.5), (2.9403887228, -16.0950749186), (2.7639238942, -16.6665010532))
            ThreePointArc((2.7639238942, -16.6665010532), (2.8745983332, -17.4115219757), (2.9168645978, -18.1635316626))
            ThreePointArc((2.9168645978, -18.1635316626), (3.6826698984, -16.928440555), (3.95, -15.5))
        make_face()
        with BuildLine():
            ThreePointArc((2.7639238942, -16.6665010532), (1.9997558445, -14.46875), (0.6523256734, -12.5717801968))
            ThreePointArc((0.6523256734, -12.5717801968), (-2.666341126, -16.875), (2.7639238942, -16.6665010532))
        make_face()
        with Locations((0, -15.5)):
            Circle(F0_R, mode=Mode.SUBTRACT)
        with Locations((0, -15.5)):
            Circle(F0_R)
        with BuildLine():
            ThreePointArc((0.6523256734, 12.5717801968), (1.9997558445, 14.46875), (2.7639238942, 16.6665010532))
            ThreePointArc((2.7639238942, 16.6665010532), (-2.666341126, 16.875), (0.6523256734, 12.5717801968))
        make_face()
        with Locations((0, 15.5)):
            Circle(F0_R, mode=Mode.SUBTRACT)
        with Locations((0, 15.5)):
            Circle(F0_R)
        with BuildLine():
            ThreePointArc((-0.4786437682, 11.5791072263), (2.6183828134, 12.5425396973), (3.95, 15.5))
            ThreePointArc((3.95, 15.5), (3.6826698984, 16.928440555), (2.9168645978, 18.1635316626))
            ThreePointArc((2.9168645978, 18.1635316626), (2.8745983332, 17.4115219757), (2.7639238942, 16.6665010532))
            ThreePointArc((2.7639238942, 16.6665010532), (2.9403887228, 16.0950749186), (3, 15.5))
            ThreePointArc((3, 15.5), (2.3406171217, 13.6234309259), (0.6523256734, 12.5717801968))
            ThreePointArc((0.6523256734, 12.5717801968), (0.1095214994, 12.0496033733), (-0.4786437682, 11.5791072263))
        make_face()
        with BuildLine():
            ThreePointArc((2.7639238942, 16.6665010532), (2.8745983332, 17.4115219757), (2.9168645978, 18.1635316626))
            ThreePointArc((2.9168645978, 18.1635316626), (-3.5106824825, 17.3104166667), (-0.4786437682, 11.5791072263))
            ThreePointArc((-0.4786437682, 11.5791072263), (0.1095214994, 12.0496033733), (0.6523256734, 12.5717801968))
            ThreePointArc((0.6523256734, 12.5717801968), (-2.666341126, 16.875), (2.7639238942, 16.6665010532))
        make_face()
        with BuildLine():
            ThreePointArc((3, 15.5), (2.9403887228, 16.0950749186), (2.7639238942, 16.6665010532))
            ThreePointArc((2.7639238942, 16.6665010532), (1.9997558445, 14.46875), (0.6523256734, 12.5717801968))
            ThreePointArc((0.6523256734, 12.5717801968), (2.3406171217, 13.6234309259), (3, 15.5))
        make_face()
        with BuildLine():
            ThreePointArc((0.6523256734, -12.5717801968), (0.1095214994, -12.0496033733), (-0.4786437682, -11.5791072263))
            ThreePointArc((-0.4786437682, -11.5791072263), (-3.5106824825, -17.3104166667), (2.9168645978, -18.1635316626))
            ThreePointArc((2.9168645978, -18.1635316626), (2.8745983332, -17.4115219757), (2.7639238942, -16.6665010532))
            ThreePointArc((2.7639238942, -16.6665010532), (-2.666341126, -16.875), (0.6523256734, -12.5717801968))
        make_face()
        with BuildLine():
            ThreePointArc((3, -15.5), (2.3406171217, -13.6234309259), (0.6523256734, -12.5717801968))
            ThreePointArc((0.6523256734, -12.5717801968), (1.9997558445, -14.46875), (2.7639238942, -16.6665010532))
            ThreePointArc((2.7639238942, -16.6665010532), (2.9403887228, -16.0950749186), (3, -15.5))
        make_face()
    extrude(amount=F3_DEPTH)

    # F0 (on Top) → F4 (cut, through all)
    with BuildSketch(Plane.XY):
        with Locations((0, -15.5)):
            Circle(F0_R)
        with Locations((0, 15.5)):
            Circle(F0_R)
    extrude(amount=F4_DEPTH, mode=Mode.SUBTRACT)

    # F0 (on Top) → F5 (cut)
    with BuildSketch(Plane.XY):
        with BuildLine():
            ThreePointArc((0.6523256734, 12.5717801968), (1.9997558445, 14.46875), (2.7639238942, 16.6665010532))
            ThreePointArc((2.7639238942, 16.6665010532), (-2.666341126, 16.875), (0.6523256734, 12.5717801968))
        make_face()
        with Locations((0, 15.5)):
            Circle(F0_R, mode=Mode.SUBTRACT)
        with BuildLine():
            ThreePointArc((3, 15.5), (2.9403887228, 16.0950749186), (2.7639238942, 16.6665010532))
            ThreePointArc((2.7639238942, 16.6665010532), (1.9997558445, 14.46875), (0.6523256734, 12.5717801968))
            ThreePointArc((0.6523256734, 12.5717801968), (2.3406171217, 13.6234309259), (3, 15.5))
        make_face()
        with BuildLine():
            ThreePointArc((2.7639238942, -16.6665010532), (1.9997558445, -14.46875), (0.6523256734, -12.5717801968))
            ThreePointArc((0.6523256734, -12.5717801968), (-2.666341126, -16.875), (2.7639238942, -16.6665010532))
        make_face()
        with Locations((0, -15.5)):
            Circle(F0_R, mode=Mode.SUBTRACT)
        with BuildLine():
            ThreePointArc((3, -15.5), (2.3406171217, -13.6234309259), (0.6523256734, -12.5717801968))
            ThreePointArc((0.6523256734, -12.5717801968), (1.9997558445, -14.46875), (2.7639238942, -16.6665010532))
            ThreePointArc((2.7639238942, -16.6665010532), (2.9403887228, -16.0950749186), (3, -15.5))
        make_face()
        with Locations((0, -15.5)):
            Circle(F0_R)
        with Locations((0, 15.5)):
            Circle(F0_R)
    extrude(amount=F5_DEPTH, mode=Mode.SUBTRACT)


solid = f1.part
